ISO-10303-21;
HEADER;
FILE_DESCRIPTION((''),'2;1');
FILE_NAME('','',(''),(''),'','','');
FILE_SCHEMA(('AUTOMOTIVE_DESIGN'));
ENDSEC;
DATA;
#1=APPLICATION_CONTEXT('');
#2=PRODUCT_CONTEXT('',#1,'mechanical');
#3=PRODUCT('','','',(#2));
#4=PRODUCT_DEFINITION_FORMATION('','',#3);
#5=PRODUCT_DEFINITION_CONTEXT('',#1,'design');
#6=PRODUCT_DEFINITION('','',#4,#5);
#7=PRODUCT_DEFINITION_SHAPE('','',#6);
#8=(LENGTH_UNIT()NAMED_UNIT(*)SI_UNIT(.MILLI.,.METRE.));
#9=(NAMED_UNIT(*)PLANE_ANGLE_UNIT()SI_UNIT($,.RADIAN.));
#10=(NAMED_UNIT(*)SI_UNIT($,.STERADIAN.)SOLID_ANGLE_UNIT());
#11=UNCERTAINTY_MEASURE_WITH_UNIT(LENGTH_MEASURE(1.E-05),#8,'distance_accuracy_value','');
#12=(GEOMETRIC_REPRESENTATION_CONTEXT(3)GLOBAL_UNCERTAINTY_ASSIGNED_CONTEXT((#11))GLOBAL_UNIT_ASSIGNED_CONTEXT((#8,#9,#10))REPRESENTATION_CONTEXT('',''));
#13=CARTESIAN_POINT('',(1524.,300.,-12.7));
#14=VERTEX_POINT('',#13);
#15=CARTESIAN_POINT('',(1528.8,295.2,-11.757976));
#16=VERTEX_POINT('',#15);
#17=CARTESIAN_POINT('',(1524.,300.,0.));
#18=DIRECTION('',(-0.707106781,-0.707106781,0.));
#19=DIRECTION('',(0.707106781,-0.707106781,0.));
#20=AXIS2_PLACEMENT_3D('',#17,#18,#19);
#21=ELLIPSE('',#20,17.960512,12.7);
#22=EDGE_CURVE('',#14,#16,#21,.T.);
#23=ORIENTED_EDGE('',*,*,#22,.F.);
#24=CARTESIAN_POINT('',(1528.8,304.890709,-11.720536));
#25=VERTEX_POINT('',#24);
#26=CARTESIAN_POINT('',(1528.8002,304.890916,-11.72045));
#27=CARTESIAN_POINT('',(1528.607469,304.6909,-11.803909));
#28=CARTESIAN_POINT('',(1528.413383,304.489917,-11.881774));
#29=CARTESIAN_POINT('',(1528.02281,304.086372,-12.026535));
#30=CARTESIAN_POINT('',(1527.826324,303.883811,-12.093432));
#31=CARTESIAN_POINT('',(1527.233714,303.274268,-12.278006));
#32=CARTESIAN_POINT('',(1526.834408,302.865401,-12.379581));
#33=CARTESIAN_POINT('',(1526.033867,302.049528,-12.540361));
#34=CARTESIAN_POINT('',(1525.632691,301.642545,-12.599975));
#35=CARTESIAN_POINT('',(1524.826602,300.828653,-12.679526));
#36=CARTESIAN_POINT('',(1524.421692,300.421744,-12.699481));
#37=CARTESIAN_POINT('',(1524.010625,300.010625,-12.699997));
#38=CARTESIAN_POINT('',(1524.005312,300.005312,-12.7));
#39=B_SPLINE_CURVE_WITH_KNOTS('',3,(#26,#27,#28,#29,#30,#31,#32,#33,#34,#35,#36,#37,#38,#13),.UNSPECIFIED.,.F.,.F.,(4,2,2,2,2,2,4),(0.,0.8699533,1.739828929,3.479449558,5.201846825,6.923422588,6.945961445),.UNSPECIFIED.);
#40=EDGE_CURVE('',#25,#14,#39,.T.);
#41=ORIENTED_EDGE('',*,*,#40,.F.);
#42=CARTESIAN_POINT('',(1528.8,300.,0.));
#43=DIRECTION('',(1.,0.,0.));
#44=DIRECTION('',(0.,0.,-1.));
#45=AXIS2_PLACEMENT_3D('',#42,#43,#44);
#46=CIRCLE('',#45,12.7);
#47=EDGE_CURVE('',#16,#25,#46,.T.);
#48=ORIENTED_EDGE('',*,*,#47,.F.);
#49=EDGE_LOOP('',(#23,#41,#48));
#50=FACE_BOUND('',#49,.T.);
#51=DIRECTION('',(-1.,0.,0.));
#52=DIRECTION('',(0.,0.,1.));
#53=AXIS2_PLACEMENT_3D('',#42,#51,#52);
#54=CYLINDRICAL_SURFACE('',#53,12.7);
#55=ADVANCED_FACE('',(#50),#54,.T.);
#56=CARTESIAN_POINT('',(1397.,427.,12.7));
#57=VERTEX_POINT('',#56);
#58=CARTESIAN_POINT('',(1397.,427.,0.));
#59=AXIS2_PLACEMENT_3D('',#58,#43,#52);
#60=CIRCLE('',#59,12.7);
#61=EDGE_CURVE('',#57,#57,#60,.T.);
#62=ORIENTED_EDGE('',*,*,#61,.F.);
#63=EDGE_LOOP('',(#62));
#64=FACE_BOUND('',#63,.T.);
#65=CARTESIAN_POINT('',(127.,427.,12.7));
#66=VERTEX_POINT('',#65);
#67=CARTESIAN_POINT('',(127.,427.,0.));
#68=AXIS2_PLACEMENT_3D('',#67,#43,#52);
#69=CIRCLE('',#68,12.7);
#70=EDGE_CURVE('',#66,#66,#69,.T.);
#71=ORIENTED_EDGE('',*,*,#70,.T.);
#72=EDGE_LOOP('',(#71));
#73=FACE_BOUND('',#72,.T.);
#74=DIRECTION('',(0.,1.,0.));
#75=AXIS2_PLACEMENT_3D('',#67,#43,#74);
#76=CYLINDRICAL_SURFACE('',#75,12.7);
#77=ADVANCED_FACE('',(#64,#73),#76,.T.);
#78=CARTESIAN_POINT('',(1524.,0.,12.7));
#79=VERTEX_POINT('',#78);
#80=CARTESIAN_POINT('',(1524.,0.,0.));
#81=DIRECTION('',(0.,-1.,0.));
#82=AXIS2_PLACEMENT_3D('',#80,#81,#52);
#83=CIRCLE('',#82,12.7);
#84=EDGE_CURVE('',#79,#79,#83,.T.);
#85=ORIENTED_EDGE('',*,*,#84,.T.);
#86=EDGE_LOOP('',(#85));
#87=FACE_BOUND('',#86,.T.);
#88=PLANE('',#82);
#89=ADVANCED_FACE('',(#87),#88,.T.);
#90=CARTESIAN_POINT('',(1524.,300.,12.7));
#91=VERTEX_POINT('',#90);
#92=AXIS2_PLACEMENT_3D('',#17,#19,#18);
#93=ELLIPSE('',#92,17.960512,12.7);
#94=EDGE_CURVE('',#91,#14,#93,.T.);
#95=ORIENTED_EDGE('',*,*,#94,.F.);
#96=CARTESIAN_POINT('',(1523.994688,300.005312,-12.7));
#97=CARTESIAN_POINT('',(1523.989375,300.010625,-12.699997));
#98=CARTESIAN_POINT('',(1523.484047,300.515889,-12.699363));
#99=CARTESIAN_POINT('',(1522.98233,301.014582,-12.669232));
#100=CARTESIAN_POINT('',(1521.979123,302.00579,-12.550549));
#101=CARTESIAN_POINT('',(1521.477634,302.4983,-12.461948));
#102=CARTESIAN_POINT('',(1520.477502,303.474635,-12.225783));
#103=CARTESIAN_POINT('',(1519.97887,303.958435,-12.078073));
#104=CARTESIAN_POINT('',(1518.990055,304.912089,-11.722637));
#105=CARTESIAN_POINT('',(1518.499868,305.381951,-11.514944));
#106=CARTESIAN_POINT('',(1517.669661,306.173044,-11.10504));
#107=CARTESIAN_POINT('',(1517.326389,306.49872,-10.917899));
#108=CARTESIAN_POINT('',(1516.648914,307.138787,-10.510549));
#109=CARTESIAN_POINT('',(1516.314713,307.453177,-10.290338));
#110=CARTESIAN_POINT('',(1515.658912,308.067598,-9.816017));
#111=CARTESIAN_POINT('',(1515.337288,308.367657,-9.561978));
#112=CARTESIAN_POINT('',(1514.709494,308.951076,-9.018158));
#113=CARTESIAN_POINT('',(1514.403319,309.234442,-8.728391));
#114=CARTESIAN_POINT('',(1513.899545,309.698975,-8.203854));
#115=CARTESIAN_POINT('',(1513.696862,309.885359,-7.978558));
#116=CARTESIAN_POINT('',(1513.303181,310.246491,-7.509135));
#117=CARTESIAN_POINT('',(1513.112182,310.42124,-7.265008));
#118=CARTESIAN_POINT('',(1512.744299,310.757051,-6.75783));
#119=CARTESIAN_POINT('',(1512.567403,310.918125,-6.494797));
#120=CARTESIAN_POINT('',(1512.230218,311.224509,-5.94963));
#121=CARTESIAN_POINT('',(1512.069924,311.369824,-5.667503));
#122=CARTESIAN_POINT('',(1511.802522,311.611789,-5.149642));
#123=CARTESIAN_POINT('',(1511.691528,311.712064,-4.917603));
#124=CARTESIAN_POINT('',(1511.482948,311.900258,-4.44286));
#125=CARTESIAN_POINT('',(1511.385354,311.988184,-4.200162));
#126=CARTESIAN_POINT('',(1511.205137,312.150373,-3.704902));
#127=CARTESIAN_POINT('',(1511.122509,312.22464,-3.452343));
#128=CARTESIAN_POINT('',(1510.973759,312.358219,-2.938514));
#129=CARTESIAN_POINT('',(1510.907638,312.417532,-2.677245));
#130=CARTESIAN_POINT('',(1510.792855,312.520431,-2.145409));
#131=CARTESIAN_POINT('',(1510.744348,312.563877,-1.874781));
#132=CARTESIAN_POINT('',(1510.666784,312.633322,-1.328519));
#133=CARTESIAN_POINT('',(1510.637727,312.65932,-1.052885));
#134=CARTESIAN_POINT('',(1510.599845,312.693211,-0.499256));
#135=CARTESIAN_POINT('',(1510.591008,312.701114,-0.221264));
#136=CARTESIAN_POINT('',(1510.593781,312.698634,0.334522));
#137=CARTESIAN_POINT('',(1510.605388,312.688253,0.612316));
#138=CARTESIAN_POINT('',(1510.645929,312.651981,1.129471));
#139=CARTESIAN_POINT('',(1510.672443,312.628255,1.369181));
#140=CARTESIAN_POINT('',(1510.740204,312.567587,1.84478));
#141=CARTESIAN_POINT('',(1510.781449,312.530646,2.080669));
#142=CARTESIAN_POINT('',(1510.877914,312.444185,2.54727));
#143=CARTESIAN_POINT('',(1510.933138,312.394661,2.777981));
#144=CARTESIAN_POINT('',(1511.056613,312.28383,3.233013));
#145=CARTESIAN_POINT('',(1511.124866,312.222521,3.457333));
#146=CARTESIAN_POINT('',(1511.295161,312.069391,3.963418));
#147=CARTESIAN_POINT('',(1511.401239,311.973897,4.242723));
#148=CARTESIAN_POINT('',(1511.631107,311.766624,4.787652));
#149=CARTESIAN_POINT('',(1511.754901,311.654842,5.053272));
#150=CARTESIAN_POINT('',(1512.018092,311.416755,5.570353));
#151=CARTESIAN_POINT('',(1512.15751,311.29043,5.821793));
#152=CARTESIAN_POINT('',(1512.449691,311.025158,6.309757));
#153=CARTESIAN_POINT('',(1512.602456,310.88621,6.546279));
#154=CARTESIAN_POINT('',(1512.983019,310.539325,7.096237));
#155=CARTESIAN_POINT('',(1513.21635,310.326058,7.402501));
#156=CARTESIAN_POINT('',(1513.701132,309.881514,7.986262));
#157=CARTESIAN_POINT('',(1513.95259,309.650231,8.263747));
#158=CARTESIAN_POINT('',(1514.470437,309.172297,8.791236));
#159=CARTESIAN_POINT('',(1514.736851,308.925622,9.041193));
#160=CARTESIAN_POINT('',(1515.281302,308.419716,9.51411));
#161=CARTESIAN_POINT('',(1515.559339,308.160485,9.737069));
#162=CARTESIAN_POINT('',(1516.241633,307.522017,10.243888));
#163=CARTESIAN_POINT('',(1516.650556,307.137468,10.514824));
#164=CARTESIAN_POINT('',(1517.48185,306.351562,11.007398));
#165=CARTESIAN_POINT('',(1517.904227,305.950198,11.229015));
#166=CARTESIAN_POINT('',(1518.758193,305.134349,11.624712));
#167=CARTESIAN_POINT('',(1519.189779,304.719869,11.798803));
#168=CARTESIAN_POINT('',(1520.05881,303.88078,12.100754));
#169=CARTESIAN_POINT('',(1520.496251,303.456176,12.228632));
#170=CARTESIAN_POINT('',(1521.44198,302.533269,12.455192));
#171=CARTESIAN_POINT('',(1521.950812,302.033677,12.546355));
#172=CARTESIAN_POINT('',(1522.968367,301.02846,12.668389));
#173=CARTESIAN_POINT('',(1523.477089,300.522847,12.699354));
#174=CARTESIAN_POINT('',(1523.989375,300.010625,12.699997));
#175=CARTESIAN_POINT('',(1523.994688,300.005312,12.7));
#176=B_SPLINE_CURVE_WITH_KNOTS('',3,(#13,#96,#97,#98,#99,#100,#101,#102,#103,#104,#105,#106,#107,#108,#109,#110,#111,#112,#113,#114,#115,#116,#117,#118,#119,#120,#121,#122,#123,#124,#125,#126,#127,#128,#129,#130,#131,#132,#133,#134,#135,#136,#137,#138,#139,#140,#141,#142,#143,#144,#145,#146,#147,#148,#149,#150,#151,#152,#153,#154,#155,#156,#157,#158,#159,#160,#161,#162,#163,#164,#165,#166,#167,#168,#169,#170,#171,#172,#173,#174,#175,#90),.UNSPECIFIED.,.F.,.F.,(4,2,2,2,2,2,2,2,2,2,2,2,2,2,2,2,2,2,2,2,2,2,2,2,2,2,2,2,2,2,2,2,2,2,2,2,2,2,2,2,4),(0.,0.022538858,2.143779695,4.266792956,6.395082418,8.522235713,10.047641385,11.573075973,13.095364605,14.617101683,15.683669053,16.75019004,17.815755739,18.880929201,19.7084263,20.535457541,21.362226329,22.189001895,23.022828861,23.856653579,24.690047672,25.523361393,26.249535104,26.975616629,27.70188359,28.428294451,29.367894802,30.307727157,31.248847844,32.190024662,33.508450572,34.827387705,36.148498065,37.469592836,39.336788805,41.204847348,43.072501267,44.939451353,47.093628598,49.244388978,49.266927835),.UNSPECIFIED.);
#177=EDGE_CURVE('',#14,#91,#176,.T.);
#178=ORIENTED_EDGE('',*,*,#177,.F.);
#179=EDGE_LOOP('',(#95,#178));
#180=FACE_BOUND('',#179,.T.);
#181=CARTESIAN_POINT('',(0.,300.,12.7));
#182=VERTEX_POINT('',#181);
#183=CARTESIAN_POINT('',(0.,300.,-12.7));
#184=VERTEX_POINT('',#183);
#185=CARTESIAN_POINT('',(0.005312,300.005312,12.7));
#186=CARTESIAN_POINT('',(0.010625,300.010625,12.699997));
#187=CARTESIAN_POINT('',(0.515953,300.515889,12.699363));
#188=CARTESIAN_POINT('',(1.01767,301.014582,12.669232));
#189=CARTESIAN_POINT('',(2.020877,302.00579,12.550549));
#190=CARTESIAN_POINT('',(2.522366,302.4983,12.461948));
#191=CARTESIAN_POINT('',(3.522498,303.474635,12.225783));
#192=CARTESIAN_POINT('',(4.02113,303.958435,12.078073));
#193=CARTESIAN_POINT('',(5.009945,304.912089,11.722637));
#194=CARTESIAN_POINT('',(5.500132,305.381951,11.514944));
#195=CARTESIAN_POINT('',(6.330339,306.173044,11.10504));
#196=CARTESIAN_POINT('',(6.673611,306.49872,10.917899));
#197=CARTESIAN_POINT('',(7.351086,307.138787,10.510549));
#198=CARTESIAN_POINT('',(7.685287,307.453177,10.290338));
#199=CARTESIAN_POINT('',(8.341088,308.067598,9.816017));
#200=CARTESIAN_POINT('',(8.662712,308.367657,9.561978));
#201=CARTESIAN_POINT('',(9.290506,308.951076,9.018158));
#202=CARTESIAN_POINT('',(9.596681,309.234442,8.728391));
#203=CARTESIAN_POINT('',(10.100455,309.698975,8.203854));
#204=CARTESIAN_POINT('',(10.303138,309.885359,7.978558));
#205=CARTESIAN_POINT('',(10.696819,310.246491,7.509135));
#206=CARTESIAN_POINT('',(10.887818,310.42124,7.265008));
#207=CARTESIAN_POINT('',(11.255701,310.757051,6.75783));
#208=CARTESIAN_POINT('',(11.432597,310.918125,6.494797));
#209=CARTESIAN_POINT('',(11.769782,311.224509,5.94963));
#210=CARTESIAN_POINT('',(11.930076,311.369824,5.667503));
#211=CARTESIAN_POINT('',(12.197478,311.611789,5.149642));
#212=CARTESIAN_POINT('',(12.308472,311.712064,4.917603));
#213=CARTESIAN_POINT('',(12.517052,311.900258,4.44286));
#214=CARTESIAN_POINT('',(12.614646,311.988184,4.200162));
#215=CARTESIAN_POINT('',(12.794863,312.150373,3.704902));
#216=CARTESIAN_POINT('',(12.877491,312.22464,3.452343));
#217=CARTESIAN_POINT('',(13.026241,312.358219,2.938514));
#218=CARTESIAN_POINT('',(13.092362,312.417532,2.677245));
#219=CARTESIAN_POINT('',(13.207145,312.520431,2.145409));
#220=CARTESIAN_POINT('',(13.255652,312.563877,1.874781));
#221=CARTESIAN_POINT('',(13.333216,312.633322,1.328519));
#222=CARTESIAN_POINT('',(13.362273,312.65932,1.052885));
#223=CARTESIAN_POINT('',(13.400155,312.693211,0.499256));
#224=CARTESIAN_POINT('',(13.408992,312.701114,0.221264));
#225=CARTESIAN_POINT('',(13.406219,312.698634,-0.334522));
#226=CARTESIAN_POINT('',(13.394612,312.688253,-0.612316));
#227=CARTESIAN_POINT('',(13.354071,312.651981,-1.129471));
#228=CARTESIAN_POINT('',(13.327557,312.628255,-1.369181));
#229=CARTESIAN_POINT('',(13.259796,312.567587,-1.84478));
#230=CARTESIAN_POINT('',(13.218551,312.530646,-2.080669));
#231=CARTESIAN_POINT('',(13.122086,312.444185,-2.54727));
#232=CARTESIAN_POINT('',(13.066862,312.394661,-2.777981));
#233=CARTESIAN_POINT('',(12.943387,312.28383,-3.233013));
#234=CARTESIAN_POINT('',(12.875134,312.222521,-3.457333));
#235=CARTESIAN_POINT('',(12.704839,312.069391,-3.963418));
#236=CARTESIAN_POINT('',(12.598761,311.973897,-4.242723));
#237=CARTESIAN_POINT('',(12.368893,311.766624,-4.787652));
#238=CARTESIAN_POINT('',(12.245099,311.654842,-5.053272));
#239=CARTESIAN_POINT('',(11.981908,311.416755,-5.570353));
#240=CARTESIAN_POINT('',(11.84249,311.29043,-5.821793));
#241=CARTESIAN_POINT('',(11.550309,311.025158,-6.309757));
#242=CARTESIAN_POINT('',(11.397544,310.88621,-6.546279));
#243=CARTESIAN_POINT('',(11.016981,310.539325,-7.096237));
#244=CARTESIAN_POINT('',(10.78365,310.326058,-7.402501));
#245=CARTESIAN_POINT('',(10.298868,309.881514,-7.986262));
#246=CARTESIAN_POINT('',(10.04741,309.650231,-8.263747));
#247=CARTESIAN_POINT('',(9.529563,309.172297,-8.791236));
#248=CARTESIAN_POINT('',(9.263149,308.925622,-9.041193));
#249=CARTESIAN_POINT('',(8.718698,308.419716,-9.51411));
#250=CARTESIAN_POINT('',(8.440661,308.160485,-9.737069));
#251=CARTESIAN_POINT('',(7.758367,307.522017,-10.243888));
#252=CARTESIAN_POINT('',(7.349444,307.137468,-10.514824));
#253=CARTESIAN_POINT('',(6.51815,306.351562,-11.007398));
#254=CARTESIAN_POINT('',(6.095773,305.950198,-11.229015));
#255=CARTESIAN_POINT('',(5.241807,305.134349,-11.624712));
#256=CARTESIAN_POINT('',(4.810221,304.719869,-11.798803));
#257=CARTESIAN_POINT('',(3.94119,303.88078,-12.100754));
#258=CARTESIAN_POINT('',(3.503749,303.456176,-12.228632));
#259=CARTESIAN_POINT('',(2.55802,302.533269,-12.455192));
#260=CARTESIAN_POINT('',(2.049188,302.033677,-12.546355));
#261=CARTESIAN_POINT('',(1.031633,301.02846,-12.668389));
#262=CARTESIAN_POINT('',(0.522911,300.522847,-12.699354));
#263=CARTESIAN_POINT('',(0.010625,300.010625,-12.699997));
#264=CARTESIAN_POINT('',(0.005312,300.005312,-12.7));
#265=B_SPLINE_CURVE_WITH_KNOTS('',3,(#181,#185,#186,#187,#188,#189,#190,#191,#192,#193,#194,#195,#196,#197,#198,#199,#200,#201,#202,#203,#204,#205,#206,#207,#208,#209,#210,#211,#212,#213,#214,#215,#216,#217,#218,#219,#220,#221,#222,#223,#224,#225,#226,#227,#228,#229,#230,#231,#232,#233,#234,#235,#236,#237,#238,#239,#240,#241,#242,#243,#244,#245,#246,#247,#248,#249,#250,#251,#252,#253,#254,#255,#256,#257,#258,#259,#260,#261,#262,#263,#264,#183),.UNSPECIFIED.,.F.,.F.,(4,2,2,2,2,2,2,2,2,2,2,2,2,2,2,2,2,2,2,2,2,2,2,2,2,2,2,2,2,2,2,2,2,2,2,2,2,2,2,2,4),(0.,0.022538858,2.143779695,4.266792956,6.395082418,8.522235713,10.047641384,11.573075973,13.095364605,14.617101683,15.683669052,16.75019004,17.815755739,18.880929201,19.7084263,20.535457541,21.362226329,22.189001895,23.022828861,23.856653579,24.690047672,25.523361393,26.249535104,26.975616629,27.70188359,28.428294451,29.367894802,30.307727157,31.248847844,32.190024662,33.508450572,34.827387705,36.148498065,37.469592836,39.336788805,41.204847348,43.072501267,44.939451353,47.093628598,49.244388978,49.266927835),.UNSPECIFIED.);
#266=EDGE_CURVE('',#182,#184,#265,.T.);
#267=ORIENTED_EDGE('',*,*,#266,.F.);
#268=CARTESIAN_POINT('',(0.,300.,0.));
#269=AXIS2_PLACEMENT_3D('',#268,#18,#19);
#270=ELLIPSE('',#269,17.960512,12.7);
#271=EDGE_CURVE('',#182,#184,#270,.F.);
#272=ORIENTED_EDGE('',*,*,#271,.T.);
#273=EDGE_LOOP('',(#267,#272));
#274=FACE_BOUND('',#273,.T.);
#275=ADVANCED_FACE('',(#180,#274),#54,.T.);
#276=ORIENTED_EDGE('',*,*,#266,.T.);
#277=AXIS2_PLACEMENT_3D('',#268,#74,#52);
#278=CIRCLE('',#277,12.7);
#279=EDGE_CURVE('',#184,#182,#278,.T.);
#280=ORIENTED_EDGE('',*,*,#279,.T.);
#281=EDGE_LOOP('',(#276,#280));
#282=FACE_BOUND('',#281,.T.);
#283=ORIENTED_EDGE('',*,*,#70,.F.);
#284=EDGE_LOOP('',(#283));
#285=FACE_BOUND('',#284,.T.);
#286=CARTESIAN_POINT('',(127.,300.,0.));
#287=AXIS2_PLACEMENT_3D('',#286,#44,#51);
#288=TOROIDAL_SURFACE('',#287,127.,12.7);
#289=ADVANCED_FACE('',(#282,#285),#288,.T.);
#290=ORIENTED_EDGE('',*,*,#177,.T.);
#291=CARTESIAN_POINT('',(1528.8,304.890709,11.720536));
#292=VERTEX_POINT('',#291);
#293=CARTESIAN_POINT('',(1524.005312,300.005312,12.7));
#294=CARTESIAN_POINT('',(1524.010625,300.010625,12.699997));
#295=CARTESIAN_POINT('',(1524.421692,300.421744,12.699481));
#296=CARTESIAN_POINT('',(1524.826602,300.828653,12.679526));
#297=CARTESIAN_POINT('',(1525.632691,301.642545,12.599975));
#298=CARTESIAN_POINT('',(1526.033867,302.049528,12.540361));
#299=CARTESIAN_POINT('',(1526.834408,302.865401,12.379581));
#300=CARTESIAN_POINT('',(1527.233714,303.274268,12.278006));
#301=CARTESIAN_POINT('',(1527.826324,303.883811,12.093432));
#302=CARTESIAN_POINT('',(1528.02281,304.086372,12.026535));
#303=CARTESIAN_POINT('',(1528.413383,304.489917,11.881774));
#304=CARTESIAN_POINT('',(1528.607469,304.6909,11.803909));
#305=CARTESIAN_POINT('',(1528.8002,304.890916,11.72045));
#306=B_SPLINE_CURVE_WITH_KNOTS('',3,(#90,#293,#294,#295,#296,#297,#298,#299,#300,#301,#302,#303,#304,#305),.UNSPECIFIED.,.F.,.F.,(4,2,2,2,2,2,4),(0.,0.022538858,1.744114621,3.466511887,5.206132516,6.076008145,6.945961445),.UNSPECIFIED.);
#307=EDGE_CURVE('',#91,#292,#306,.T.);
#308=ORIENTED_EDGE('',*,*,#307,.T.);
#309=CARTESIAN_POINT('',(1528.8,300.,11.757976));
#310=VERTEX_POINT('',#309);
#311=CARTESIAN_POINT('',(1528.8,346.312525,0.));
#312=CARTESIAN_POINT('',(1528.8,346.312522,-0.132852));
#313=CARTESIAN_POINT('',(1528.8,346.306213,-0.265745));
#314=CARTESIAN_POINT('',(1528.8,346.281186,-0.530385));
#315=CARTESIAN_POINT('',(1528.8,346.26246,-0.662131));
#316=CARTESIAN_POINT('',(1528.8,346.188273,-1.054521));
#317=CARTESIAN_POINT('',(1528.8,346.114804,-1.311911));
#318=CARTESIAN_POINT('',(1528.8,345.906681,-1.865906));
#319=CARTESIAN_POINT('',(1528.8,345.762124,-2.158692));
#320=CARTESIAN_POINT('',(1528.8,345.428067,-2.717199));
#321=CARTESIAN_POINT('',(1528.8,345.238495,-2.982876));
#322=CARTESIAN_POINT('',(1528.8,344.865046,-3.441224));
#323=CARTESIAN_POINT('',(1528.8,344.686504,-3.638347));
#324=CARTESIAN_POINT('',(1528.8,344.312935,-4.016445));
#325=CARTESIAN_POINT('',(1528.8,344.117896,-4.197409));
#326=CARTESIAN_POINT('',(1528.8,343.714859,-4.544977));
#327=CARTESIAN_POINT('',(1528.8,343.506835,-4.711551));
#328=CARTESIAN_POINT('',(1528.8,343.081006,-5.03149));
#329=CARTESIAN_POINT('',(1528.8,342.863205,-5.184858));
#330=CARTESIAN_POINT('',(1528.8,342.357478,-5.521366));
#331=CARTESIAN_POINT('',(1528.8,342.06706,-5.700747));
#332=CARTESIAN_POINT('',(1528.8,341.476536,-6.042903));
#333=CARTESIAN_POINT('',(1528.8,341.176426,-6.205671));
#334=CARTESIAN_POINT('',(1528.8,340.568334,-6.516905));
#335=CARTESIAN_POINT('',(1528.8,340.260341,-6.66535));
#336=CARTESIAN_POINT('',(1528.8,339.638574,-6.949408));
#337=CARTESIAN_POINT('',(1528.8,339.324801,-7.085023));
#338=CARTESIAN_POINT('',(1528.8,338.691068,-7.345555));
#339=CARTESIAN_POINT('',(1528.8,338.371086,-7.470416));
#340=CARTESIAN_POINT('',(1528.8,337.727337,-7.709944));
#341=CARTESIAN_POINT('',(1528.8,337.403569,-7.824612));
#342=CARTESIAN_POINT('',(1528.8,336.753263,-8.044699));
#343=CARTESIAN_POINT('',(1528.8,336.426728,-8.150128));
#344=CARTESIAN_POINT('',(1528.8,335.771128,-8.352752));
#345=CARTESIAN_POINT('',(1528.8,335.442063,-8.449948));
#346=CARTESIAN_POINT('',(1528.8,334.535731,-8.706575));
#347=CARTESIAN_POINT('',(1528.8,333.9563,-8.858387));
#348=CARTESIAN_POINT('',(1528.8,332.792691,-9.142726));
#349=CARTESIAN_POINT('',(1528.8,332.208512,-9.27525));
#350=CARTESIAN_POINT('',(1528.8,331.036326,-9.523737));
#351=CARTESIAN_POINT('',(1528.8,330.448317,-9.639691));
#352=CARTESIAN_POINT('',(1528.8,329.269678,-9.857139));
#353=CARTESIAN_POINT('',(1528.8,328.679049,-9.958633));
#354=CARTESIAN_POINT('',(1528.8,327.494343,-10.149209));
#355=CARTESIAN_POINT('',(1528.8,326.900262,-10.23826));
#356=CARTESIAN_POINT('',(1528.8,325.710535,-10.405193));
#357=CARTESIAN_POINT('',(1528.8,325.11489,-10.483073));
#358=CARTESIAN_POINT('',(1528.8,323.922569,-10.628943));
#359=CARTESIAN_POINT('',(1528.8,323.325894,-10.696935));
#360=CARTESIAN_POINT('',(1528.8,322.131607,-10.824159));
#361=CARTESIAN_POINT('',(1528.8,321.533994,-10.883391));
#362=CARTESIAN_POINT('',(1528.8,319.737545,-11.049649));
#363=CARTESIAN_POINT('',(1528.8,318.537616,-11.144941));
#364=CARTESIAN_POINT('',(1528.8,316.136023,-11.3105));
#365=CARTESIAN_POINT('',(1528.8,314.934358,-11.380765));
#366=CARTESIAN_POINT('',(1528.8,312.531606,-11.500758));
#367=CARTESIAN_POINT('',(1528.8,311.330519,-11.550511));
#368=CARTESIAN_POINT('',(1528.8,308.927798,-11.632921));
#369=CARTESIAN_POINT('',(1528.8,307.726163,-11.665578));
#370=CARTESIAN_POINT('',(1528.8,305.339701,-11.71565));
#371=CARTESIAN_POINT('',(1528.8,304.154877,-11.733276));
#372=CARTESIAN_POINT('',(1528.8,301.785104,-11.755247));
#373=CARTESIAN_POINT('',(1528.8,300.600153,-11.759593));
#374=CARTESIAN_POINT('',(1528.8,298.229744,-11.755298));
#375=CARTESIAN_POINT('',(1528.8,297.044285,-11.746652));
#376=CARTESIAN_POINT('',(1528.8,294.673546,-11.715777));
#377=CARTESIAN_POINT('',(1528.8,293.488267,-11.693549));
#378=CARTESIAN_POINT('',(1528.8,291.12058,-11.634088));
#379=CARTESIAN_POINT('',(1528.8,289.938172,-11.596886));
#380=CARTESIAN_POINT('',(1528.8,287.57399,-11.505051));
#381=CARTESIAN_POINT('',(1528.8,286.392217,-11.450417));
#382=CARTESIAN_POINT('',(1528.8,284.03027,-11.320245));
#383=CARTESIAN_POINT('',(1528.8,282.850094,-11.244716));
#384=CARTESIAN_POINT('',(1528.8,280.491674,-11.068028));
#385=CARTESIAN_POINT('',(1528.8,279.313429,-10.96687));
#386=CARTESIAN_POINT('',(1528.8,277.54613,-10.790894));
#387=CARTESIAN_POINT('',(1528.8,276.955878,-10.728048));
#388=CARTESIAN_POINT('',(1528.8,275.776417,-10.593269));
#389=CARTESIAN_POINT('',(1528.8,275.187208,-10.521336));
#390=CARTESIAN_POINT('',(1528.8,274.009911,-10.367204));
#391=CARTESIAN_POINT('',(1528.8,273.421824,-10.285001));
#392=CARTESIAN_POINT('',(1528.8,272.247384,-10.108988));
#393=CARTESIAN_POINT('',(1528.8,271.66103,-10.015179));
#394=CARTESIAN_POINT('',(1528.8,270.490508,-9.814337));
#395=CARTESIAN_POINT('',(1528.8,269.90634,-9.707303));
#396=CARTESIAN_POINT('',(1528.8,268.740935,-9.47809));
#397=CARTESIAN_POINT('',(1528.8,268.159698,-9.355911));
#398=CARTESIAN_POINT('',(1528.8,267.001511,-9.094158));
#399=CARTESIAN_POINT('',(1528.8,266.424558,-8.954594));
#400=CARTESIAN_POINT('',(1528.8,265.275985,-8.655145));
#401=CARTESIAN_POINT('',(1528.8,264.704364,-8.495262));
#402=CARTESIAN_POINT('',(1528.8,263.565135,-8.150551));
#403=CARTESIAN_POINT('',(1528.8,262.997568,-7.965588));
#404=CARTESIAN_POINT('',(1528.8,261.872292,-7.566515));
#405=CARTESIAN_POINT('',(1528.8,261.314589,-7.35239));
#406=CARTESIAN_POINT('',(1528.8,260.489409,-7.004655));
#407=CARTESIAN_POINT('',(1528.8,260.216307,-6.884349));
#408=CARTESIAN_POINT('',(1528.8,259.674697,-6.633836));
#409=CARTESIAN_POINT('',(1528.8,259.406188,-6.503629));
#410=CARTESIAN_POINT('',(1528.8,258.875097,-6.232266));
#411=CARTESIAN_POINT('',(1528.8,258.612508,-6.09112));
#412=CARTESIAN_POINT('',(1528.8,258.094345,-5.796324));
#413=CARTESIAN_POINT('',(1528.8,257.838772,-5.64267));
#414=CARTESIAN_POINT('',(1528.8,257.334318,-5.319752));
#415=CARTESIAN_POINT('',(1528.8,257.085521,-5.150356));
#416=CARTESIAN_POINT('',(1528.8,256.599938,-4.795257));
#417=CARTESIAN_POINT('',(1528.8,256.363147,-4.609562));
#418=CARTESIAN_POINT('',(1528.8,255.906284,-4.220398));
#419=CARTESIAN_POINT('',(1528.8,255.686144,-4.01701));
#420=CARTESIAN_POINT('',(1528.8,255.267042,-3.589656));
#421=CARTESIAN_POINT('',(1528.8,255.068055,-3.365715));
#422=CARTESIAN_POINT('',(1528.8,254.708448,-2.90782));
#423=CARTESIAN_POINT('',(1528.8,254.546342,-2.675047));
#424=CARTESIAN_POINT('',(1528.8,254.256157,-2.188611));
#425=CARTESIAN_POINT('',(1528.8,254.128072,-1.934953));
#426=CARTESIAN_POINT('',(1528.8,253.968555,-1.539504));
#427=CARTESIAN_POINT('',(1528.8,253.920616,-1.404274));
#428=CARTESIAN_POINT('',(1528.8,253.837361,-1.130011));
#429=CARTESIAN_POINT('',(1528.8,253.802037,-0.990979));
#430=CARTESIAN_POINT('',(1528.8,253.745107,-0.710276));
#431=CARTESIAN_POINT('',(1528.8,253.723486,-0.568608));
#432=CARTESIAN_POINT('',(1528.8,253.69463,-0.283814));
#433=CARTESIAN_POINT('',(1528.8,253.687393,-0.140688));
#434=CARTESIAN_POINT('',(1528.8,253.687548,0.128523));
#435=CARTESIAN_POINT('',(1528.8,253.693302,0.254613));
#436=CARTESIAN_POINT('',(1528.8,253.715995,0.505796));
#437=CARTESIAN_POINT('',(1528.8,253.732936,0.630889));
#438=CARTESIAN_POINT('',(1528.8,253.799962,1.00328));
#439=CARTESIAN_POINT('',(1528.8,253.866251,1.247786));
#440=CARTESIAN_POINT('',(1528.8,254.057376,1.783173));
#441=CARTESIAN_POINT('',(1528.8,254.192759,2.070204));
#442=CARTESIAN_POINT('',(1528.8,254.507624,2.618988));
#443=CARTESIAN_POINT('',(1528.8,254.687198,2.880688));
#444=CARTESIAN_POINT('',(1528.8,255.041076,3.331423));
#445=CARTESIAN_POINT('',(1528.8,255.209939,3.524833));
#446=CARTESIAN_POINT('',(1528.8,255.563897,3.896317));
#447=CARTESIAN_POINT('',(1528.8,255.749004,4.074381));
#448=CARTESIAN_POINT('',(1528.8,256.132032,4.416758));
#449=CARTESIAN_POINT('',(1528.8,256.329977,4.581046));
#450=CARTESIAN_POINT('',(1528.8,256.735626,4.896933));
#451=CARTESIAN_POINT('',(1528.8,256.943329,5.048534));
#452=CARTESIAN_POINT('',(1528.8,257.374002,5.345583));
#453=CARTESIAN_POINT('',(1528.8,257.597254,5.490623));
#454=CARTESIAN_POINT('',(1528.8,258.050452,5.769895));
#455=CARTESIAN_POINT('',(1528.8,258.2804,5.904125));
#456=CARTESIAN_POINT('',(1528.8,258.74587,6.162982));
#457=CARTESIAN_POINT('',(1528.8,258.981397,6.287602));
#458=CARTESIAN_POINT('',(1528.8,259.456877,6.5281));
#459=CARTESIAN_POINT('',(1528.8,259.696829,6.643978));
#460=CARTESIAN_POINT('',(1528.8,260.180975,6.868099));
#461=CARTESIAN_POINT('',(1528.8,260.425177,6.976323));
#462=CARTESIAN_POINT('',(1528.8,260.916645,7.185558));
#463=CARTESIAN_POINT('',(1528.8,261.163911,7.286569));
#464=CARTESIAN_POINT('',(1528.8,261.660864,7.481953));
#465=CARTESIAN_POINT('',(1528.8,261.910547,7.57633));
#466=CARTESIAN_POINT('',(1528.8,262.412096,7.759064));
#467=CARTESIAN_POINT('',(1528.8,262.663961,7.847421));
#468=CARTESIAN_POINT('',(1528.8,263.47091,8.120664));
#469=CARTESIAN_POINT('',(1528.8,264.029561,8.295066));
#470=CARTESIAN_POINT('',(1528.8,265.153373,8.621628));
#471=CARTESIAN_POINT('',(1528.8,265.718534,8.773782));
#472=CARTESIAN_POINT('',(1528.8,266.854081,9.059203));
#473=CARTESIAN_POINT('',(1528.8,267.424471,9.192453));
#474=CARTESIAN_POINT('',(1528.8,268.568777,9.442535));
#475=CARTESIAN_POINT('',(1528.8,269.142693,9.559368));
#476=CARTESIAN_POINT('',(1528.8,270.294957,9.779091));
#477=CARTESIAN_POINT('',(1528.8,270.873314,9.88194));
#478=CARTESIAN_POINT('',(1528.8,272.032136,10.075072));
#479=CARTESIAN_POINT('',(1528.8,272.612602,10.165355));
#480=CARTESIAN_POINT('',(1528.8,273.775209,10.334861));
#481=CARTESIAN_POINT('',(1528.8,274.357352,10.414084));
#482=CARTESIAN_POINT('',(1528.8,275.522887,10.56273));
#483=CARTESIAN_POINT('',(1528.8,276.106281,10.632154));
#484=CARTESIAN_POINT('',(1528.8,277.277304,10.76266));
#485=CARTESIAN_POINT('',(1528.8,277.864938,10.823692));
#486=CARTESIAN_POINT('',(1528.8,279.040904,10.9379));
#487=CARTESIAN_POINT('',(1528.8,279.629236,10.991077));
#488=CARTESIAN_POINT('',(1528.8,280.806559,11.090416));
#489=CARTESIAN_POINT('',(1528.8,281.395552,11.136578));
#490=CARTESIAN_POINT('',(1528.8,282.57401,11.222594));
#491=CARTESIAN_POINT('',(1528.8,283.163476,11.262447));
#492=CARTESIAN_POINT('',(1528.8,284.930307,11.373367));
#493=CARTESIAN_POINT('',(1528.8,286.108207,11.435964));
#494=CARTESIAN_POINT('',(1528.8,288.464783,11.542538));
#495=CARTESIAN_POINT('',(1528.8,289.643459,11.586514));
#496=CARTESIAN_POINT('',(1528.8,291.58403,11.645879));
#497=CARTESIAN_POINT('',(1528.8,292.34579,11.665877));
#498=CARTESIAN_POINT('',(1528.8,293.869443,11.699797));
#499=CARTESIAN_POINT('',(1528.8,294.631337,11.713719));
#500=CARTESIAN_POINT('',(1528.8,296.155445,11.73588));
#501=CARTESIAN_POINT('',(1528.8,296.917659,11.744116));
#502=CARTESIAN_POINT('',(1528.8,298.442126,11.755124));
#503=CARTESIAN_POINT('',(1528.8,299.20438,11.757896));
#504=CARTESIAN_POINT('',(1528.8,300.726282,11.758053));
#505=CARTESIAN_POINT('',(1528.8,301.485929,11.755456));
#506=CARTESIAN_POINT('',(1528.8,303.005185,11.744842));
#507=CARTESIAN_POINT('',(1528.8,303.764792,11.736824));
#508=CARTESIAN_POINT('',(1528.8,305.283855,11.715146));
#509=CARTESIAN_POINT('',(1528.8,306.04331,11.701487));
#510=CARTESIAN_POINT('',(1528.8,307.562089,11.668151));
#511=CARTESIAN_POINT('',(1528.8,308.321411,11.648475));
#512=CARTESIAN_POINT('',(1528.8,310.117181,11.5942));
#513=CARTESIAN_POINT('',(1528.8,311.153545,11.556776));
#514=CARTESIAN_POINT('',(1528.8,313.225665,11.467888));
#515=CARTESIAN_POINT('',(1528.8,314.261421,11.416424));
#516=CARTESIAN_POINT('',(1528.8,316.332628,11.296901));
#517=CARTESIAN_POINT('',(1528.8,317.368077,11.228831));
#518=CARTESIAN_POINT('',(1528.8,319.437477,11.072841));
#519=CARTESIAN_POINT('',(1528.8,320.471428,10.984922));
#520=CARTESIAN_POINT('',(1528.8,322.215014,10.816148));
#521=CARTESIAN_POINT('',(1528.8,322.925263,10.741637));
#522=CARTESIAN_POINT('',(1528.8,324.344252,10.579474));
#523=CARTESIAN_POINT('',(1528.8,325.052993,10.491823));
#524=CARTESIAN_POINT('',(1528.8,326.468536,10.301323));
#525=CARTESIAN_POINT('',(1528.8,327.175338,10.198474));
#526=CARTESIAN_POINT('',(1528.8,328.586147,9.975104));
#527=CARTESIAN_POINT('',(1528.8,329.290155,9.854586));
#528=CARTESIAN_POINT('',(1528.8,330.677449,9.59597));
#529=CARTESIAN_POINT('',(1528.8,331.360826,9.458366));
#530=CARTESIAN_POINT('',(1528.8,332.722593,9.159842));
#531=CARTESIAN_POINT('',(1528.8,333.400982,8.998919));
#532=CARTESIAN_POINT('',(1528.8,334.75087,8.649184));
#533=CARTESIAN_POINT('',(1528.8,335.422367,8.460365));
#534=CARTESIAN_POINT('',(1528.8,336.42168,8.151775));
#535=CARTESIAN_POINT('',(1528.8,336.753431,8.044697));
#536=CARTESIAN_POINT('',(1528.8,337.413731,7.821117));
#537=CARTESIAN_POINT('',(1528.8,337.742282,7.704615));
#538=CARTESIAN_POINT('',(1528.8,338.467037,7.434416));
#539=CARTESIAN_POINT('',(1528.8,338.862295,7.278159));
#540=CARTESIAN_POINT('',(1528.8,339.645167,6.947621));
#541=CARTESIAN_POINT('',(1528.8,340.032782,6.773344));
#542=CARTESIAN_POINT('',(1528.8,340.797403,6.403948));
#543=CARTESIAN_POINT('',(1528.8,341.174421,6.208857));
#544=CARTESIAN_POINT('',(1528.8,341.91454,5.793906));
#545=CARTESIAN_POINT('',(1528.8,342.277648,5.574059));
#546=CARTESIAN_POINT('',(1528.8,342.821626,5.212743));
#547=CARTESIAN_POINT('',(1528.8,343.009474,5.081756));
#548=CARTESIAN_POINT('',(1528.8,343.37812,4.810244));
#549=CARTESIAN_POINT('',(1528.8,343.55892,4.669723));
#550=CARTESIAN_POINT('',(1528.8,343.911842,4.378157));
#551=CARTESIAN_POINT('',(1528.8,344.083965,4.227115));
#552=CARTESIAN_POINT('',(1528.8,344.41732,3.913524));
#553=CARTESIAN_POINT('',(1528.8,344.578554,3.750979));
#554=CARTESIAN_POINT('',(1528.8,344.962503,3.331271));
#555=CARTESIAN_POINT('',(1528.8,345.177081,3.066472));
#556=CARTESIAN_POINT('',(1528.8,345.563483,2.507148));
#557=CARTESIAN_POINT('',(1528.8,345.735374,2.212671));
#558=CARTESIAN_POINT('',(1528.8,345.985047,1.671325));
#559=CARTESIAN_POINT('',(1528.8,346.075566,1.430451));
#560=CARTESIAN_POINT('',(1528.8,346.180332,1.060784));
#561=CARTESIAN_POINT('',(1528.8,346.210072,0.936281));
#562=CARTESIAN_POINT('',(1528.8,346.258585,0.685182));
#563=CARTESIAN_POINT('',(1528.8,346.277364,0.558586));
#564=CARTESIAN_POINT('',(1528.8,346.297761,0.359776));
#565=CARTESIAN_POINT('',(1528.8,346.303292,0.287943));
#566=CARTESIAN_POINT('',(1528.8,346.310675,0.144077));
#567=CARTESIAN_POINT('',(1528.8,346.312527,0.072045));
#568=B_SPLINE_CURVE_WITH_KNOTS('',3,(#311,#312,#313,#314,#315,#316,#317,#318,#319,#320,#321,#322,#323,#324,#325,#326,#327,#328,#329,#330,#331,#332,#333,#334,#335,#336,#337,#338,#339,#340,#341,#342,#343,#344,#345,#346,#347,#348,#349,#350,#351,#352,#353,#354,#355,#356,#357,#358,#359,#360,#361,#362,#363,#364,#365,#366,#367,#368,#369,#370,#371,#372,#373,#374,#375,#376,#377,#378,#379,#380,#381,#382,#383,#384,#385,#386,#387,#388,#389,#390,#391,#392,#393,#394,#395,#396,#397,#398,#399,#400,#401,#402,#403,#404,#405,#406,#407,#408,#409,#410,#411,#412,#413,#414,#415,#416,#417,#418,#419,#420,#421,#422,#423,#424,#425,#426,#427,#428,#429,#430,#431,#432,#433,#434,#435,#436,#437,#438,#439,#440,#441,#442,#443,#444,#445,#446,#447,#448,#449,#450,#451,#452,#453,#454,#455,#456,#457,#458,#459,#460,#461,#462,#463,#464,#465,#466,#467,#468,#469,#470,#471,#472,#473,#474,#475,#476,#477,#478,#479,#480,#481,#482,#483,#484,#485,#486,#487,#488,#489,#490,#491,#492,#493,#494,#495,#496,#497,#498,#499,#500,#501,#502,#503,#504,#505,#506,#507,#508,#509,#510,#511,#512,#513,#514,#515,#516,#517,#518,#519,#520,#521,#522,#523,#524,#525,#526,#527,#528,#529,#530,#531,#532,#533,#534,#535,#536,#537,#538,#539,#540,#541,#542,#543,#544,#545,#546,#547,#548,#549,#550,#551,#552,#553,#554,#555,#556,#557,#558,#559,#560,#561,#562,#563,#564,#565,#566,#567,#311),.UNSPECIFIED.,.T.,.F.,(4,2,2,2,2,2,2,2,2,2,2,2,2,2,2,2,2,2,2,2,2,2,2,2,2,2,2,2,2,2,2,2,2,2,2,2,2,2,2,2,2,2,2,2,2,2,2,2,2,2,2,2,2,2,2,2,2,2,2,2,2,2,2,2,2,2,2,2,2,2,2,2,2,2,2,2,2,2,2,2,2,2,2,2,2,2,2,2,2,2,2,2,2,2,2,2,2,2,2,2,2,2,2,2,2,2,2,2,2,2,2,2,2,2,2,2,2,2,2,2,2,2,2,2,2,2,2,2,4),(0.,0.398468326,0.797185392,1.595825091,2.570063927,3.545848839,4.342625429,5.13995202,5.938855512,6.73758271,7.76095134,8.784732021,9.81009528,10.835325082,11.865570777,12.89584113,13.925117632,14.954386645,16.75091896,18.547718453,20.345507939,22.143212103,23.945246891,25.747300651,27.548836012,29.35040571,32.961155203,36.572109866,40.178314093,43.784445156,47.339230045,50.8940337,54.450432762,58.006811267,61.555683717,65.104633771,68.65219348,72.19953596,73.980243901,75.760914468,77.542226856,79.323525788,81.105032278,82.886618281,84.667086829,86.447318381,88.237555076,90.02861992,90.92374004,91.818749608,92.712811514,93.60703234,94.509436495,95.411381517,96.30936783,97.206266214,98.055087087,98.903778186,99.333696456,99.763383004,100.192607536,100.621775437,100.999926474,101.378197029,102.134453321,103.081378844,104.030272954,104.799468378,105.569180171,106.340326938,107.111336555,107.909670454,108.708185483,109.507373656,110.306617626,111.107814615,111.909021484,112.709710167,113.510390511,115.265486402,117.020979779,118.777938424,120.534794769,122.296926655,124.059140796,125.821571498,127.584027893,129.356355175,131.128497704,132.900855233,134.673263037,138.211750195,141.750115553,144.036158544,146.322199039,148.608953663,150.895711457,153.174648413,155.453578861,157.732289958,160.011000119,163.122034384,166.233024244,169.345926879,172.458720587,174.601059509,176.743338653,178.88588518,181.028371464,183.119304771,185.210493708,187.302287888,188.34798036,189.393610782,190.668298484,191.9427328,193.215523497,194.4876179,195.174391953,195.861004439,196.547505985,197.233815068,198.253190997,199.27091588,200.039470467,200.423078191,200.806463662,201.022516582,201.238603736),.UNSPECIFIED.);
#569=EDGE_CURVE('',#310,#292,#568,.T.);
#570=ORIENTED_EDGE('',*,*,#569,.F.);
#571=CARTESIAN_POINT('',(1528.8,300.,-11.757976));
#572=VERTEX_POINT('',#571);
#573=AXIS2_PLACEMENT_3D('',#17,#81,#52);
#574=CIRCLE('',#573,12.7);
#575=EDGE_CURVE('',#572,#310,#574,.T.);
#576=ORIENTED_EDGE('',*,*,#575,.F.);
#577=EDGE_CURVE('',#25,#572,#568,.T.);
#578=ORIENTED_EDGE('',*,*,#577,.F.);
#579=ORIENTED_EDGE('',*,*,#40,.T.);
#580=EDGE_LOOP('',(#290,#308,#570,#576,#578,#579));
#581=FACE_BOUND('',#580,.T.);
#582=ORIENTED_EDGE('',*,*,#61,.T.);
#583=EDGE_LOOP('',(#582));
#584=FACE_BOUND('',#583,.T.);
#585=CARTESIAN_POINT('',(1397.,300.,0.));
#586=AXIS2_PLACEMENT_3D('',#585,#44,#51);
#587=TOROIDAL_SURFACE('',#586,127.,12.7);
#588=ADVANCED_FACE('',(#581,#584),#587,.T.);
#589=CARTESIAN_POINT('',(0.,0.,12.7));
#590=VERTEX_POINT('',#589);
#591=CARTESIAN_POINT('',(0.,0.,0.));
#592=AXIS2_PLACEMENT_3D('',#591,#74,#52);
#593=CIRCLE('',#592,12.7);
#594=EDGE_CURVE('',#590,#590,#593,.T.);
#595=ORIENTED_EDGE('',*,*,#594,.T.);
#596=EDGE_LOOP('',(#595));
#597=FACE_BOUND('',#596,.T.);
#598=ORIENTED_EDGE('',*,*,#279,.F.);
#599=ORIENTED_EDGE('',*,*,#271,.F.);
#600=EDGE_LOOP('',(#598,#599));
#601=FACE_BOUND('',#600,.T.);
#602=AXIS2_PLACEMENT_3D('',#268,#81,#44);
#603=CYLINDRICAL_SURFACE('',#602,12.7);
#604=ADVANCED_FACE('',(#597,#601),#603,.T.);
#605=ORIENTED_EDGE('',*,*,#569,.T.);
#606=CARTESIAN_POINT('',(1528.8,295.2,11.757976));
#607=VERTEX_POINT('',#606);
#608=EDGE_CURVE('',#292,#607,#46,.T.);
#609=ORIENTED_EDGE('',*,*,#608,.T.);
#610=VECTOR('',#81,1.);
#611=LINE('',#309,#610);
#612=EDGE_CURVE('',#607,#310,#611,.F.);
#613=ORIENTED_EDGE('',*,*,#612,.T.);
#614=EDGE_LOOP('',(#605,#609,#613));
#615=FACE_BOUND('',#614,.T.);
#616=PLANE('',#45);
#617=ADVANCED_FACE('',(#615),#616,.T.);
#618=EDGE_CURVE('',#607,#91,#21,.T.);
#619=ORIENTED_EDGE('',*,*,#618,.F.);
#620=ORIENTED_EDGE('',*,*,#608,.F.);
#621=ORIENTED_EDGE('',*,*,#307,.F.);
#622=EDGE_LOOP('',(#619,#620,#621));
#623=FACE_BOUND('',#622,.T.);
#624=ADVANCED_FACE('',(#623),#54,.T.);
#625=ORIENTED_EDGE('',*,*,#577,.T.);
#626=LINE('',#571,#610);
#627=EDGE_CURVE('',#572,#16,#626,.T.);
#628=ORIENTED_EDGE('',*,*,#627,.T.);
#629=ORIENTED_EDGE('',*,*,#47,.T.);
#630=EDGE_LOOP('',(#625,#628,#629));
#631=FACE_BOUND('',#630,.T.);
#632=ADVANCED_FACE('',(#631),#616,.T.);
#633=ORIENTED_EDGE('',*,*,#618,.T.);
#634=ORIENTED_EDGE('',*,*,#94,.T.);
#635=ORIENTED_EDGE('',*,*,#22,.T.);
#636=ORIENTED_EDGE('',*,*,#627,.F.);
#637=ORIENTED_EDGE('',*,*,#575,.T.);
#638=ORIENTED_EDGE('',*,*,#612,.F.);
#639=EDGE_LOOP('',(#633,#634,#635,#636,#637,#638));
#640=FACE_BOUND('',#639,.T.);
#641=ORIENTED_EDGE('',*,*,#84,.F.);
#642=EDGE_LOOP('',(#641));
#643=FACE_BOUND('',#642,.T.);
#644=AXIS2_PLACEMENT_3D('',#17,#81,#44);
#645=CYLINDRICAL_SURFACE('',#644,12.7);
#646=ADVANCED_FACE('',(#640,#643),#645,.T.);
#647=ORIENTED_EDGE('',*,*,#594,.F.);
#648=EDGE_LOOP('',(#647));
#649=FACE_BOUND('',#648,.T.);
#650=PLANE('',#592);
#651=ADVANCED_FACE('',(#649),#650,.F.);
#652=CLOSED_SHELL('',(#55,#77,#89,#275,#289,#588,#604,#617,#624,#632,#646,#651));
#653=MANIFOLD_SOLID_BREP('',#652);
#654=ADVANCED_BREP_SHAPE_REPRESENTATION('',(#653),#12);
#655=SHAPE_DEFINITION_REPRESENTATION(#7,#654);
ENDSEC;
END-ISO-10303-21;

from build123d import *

# Parameters (mm, degrees)
SKETCH2_R           = 12.7
SKETCH4_R           = 12.7
BOSS_EXTRUDE2_DEPTH = 1528.8


with BuildPart() as part:
    # Sweep1: sweep along a path in Sketch1
    with BuildLine(Plane.XY) as sweep1_path:
        Line((0, 0), (0, 300))
        ThreePointArc((0, 300), (37.197438789, 389.802561211), (127, 427))
        Line((127, 427), (1397, 427))
        ThreePointArc((1397, 427), (1486.802561211, 389.802561211), (1524, 300))
        Line((1524, 300), (1524, 0))
    # Sketch2 → Sweep1 (sweep)
    with BuildSketch(Plane(origin=(0, 0, 0), x_dir=(1, 0, 0), z_dir=(0, 1, 0))):
        Circle(SKETCH2_R)
    sweep(path=sweep1_path.line)

    # Sketch4 → Boss-Extrude2 (add)
    with BuildSketch(Plane(origin=(0, 0, 0), x_dir=(0, 0, -1), z_dir=(1, 0, 0))):
        with Locations((0, 300)):
            Circle(SKETCH4_R)
    extrude(amount=BOSS_EXTRUDE2_DEPTH)


solid = part.part
